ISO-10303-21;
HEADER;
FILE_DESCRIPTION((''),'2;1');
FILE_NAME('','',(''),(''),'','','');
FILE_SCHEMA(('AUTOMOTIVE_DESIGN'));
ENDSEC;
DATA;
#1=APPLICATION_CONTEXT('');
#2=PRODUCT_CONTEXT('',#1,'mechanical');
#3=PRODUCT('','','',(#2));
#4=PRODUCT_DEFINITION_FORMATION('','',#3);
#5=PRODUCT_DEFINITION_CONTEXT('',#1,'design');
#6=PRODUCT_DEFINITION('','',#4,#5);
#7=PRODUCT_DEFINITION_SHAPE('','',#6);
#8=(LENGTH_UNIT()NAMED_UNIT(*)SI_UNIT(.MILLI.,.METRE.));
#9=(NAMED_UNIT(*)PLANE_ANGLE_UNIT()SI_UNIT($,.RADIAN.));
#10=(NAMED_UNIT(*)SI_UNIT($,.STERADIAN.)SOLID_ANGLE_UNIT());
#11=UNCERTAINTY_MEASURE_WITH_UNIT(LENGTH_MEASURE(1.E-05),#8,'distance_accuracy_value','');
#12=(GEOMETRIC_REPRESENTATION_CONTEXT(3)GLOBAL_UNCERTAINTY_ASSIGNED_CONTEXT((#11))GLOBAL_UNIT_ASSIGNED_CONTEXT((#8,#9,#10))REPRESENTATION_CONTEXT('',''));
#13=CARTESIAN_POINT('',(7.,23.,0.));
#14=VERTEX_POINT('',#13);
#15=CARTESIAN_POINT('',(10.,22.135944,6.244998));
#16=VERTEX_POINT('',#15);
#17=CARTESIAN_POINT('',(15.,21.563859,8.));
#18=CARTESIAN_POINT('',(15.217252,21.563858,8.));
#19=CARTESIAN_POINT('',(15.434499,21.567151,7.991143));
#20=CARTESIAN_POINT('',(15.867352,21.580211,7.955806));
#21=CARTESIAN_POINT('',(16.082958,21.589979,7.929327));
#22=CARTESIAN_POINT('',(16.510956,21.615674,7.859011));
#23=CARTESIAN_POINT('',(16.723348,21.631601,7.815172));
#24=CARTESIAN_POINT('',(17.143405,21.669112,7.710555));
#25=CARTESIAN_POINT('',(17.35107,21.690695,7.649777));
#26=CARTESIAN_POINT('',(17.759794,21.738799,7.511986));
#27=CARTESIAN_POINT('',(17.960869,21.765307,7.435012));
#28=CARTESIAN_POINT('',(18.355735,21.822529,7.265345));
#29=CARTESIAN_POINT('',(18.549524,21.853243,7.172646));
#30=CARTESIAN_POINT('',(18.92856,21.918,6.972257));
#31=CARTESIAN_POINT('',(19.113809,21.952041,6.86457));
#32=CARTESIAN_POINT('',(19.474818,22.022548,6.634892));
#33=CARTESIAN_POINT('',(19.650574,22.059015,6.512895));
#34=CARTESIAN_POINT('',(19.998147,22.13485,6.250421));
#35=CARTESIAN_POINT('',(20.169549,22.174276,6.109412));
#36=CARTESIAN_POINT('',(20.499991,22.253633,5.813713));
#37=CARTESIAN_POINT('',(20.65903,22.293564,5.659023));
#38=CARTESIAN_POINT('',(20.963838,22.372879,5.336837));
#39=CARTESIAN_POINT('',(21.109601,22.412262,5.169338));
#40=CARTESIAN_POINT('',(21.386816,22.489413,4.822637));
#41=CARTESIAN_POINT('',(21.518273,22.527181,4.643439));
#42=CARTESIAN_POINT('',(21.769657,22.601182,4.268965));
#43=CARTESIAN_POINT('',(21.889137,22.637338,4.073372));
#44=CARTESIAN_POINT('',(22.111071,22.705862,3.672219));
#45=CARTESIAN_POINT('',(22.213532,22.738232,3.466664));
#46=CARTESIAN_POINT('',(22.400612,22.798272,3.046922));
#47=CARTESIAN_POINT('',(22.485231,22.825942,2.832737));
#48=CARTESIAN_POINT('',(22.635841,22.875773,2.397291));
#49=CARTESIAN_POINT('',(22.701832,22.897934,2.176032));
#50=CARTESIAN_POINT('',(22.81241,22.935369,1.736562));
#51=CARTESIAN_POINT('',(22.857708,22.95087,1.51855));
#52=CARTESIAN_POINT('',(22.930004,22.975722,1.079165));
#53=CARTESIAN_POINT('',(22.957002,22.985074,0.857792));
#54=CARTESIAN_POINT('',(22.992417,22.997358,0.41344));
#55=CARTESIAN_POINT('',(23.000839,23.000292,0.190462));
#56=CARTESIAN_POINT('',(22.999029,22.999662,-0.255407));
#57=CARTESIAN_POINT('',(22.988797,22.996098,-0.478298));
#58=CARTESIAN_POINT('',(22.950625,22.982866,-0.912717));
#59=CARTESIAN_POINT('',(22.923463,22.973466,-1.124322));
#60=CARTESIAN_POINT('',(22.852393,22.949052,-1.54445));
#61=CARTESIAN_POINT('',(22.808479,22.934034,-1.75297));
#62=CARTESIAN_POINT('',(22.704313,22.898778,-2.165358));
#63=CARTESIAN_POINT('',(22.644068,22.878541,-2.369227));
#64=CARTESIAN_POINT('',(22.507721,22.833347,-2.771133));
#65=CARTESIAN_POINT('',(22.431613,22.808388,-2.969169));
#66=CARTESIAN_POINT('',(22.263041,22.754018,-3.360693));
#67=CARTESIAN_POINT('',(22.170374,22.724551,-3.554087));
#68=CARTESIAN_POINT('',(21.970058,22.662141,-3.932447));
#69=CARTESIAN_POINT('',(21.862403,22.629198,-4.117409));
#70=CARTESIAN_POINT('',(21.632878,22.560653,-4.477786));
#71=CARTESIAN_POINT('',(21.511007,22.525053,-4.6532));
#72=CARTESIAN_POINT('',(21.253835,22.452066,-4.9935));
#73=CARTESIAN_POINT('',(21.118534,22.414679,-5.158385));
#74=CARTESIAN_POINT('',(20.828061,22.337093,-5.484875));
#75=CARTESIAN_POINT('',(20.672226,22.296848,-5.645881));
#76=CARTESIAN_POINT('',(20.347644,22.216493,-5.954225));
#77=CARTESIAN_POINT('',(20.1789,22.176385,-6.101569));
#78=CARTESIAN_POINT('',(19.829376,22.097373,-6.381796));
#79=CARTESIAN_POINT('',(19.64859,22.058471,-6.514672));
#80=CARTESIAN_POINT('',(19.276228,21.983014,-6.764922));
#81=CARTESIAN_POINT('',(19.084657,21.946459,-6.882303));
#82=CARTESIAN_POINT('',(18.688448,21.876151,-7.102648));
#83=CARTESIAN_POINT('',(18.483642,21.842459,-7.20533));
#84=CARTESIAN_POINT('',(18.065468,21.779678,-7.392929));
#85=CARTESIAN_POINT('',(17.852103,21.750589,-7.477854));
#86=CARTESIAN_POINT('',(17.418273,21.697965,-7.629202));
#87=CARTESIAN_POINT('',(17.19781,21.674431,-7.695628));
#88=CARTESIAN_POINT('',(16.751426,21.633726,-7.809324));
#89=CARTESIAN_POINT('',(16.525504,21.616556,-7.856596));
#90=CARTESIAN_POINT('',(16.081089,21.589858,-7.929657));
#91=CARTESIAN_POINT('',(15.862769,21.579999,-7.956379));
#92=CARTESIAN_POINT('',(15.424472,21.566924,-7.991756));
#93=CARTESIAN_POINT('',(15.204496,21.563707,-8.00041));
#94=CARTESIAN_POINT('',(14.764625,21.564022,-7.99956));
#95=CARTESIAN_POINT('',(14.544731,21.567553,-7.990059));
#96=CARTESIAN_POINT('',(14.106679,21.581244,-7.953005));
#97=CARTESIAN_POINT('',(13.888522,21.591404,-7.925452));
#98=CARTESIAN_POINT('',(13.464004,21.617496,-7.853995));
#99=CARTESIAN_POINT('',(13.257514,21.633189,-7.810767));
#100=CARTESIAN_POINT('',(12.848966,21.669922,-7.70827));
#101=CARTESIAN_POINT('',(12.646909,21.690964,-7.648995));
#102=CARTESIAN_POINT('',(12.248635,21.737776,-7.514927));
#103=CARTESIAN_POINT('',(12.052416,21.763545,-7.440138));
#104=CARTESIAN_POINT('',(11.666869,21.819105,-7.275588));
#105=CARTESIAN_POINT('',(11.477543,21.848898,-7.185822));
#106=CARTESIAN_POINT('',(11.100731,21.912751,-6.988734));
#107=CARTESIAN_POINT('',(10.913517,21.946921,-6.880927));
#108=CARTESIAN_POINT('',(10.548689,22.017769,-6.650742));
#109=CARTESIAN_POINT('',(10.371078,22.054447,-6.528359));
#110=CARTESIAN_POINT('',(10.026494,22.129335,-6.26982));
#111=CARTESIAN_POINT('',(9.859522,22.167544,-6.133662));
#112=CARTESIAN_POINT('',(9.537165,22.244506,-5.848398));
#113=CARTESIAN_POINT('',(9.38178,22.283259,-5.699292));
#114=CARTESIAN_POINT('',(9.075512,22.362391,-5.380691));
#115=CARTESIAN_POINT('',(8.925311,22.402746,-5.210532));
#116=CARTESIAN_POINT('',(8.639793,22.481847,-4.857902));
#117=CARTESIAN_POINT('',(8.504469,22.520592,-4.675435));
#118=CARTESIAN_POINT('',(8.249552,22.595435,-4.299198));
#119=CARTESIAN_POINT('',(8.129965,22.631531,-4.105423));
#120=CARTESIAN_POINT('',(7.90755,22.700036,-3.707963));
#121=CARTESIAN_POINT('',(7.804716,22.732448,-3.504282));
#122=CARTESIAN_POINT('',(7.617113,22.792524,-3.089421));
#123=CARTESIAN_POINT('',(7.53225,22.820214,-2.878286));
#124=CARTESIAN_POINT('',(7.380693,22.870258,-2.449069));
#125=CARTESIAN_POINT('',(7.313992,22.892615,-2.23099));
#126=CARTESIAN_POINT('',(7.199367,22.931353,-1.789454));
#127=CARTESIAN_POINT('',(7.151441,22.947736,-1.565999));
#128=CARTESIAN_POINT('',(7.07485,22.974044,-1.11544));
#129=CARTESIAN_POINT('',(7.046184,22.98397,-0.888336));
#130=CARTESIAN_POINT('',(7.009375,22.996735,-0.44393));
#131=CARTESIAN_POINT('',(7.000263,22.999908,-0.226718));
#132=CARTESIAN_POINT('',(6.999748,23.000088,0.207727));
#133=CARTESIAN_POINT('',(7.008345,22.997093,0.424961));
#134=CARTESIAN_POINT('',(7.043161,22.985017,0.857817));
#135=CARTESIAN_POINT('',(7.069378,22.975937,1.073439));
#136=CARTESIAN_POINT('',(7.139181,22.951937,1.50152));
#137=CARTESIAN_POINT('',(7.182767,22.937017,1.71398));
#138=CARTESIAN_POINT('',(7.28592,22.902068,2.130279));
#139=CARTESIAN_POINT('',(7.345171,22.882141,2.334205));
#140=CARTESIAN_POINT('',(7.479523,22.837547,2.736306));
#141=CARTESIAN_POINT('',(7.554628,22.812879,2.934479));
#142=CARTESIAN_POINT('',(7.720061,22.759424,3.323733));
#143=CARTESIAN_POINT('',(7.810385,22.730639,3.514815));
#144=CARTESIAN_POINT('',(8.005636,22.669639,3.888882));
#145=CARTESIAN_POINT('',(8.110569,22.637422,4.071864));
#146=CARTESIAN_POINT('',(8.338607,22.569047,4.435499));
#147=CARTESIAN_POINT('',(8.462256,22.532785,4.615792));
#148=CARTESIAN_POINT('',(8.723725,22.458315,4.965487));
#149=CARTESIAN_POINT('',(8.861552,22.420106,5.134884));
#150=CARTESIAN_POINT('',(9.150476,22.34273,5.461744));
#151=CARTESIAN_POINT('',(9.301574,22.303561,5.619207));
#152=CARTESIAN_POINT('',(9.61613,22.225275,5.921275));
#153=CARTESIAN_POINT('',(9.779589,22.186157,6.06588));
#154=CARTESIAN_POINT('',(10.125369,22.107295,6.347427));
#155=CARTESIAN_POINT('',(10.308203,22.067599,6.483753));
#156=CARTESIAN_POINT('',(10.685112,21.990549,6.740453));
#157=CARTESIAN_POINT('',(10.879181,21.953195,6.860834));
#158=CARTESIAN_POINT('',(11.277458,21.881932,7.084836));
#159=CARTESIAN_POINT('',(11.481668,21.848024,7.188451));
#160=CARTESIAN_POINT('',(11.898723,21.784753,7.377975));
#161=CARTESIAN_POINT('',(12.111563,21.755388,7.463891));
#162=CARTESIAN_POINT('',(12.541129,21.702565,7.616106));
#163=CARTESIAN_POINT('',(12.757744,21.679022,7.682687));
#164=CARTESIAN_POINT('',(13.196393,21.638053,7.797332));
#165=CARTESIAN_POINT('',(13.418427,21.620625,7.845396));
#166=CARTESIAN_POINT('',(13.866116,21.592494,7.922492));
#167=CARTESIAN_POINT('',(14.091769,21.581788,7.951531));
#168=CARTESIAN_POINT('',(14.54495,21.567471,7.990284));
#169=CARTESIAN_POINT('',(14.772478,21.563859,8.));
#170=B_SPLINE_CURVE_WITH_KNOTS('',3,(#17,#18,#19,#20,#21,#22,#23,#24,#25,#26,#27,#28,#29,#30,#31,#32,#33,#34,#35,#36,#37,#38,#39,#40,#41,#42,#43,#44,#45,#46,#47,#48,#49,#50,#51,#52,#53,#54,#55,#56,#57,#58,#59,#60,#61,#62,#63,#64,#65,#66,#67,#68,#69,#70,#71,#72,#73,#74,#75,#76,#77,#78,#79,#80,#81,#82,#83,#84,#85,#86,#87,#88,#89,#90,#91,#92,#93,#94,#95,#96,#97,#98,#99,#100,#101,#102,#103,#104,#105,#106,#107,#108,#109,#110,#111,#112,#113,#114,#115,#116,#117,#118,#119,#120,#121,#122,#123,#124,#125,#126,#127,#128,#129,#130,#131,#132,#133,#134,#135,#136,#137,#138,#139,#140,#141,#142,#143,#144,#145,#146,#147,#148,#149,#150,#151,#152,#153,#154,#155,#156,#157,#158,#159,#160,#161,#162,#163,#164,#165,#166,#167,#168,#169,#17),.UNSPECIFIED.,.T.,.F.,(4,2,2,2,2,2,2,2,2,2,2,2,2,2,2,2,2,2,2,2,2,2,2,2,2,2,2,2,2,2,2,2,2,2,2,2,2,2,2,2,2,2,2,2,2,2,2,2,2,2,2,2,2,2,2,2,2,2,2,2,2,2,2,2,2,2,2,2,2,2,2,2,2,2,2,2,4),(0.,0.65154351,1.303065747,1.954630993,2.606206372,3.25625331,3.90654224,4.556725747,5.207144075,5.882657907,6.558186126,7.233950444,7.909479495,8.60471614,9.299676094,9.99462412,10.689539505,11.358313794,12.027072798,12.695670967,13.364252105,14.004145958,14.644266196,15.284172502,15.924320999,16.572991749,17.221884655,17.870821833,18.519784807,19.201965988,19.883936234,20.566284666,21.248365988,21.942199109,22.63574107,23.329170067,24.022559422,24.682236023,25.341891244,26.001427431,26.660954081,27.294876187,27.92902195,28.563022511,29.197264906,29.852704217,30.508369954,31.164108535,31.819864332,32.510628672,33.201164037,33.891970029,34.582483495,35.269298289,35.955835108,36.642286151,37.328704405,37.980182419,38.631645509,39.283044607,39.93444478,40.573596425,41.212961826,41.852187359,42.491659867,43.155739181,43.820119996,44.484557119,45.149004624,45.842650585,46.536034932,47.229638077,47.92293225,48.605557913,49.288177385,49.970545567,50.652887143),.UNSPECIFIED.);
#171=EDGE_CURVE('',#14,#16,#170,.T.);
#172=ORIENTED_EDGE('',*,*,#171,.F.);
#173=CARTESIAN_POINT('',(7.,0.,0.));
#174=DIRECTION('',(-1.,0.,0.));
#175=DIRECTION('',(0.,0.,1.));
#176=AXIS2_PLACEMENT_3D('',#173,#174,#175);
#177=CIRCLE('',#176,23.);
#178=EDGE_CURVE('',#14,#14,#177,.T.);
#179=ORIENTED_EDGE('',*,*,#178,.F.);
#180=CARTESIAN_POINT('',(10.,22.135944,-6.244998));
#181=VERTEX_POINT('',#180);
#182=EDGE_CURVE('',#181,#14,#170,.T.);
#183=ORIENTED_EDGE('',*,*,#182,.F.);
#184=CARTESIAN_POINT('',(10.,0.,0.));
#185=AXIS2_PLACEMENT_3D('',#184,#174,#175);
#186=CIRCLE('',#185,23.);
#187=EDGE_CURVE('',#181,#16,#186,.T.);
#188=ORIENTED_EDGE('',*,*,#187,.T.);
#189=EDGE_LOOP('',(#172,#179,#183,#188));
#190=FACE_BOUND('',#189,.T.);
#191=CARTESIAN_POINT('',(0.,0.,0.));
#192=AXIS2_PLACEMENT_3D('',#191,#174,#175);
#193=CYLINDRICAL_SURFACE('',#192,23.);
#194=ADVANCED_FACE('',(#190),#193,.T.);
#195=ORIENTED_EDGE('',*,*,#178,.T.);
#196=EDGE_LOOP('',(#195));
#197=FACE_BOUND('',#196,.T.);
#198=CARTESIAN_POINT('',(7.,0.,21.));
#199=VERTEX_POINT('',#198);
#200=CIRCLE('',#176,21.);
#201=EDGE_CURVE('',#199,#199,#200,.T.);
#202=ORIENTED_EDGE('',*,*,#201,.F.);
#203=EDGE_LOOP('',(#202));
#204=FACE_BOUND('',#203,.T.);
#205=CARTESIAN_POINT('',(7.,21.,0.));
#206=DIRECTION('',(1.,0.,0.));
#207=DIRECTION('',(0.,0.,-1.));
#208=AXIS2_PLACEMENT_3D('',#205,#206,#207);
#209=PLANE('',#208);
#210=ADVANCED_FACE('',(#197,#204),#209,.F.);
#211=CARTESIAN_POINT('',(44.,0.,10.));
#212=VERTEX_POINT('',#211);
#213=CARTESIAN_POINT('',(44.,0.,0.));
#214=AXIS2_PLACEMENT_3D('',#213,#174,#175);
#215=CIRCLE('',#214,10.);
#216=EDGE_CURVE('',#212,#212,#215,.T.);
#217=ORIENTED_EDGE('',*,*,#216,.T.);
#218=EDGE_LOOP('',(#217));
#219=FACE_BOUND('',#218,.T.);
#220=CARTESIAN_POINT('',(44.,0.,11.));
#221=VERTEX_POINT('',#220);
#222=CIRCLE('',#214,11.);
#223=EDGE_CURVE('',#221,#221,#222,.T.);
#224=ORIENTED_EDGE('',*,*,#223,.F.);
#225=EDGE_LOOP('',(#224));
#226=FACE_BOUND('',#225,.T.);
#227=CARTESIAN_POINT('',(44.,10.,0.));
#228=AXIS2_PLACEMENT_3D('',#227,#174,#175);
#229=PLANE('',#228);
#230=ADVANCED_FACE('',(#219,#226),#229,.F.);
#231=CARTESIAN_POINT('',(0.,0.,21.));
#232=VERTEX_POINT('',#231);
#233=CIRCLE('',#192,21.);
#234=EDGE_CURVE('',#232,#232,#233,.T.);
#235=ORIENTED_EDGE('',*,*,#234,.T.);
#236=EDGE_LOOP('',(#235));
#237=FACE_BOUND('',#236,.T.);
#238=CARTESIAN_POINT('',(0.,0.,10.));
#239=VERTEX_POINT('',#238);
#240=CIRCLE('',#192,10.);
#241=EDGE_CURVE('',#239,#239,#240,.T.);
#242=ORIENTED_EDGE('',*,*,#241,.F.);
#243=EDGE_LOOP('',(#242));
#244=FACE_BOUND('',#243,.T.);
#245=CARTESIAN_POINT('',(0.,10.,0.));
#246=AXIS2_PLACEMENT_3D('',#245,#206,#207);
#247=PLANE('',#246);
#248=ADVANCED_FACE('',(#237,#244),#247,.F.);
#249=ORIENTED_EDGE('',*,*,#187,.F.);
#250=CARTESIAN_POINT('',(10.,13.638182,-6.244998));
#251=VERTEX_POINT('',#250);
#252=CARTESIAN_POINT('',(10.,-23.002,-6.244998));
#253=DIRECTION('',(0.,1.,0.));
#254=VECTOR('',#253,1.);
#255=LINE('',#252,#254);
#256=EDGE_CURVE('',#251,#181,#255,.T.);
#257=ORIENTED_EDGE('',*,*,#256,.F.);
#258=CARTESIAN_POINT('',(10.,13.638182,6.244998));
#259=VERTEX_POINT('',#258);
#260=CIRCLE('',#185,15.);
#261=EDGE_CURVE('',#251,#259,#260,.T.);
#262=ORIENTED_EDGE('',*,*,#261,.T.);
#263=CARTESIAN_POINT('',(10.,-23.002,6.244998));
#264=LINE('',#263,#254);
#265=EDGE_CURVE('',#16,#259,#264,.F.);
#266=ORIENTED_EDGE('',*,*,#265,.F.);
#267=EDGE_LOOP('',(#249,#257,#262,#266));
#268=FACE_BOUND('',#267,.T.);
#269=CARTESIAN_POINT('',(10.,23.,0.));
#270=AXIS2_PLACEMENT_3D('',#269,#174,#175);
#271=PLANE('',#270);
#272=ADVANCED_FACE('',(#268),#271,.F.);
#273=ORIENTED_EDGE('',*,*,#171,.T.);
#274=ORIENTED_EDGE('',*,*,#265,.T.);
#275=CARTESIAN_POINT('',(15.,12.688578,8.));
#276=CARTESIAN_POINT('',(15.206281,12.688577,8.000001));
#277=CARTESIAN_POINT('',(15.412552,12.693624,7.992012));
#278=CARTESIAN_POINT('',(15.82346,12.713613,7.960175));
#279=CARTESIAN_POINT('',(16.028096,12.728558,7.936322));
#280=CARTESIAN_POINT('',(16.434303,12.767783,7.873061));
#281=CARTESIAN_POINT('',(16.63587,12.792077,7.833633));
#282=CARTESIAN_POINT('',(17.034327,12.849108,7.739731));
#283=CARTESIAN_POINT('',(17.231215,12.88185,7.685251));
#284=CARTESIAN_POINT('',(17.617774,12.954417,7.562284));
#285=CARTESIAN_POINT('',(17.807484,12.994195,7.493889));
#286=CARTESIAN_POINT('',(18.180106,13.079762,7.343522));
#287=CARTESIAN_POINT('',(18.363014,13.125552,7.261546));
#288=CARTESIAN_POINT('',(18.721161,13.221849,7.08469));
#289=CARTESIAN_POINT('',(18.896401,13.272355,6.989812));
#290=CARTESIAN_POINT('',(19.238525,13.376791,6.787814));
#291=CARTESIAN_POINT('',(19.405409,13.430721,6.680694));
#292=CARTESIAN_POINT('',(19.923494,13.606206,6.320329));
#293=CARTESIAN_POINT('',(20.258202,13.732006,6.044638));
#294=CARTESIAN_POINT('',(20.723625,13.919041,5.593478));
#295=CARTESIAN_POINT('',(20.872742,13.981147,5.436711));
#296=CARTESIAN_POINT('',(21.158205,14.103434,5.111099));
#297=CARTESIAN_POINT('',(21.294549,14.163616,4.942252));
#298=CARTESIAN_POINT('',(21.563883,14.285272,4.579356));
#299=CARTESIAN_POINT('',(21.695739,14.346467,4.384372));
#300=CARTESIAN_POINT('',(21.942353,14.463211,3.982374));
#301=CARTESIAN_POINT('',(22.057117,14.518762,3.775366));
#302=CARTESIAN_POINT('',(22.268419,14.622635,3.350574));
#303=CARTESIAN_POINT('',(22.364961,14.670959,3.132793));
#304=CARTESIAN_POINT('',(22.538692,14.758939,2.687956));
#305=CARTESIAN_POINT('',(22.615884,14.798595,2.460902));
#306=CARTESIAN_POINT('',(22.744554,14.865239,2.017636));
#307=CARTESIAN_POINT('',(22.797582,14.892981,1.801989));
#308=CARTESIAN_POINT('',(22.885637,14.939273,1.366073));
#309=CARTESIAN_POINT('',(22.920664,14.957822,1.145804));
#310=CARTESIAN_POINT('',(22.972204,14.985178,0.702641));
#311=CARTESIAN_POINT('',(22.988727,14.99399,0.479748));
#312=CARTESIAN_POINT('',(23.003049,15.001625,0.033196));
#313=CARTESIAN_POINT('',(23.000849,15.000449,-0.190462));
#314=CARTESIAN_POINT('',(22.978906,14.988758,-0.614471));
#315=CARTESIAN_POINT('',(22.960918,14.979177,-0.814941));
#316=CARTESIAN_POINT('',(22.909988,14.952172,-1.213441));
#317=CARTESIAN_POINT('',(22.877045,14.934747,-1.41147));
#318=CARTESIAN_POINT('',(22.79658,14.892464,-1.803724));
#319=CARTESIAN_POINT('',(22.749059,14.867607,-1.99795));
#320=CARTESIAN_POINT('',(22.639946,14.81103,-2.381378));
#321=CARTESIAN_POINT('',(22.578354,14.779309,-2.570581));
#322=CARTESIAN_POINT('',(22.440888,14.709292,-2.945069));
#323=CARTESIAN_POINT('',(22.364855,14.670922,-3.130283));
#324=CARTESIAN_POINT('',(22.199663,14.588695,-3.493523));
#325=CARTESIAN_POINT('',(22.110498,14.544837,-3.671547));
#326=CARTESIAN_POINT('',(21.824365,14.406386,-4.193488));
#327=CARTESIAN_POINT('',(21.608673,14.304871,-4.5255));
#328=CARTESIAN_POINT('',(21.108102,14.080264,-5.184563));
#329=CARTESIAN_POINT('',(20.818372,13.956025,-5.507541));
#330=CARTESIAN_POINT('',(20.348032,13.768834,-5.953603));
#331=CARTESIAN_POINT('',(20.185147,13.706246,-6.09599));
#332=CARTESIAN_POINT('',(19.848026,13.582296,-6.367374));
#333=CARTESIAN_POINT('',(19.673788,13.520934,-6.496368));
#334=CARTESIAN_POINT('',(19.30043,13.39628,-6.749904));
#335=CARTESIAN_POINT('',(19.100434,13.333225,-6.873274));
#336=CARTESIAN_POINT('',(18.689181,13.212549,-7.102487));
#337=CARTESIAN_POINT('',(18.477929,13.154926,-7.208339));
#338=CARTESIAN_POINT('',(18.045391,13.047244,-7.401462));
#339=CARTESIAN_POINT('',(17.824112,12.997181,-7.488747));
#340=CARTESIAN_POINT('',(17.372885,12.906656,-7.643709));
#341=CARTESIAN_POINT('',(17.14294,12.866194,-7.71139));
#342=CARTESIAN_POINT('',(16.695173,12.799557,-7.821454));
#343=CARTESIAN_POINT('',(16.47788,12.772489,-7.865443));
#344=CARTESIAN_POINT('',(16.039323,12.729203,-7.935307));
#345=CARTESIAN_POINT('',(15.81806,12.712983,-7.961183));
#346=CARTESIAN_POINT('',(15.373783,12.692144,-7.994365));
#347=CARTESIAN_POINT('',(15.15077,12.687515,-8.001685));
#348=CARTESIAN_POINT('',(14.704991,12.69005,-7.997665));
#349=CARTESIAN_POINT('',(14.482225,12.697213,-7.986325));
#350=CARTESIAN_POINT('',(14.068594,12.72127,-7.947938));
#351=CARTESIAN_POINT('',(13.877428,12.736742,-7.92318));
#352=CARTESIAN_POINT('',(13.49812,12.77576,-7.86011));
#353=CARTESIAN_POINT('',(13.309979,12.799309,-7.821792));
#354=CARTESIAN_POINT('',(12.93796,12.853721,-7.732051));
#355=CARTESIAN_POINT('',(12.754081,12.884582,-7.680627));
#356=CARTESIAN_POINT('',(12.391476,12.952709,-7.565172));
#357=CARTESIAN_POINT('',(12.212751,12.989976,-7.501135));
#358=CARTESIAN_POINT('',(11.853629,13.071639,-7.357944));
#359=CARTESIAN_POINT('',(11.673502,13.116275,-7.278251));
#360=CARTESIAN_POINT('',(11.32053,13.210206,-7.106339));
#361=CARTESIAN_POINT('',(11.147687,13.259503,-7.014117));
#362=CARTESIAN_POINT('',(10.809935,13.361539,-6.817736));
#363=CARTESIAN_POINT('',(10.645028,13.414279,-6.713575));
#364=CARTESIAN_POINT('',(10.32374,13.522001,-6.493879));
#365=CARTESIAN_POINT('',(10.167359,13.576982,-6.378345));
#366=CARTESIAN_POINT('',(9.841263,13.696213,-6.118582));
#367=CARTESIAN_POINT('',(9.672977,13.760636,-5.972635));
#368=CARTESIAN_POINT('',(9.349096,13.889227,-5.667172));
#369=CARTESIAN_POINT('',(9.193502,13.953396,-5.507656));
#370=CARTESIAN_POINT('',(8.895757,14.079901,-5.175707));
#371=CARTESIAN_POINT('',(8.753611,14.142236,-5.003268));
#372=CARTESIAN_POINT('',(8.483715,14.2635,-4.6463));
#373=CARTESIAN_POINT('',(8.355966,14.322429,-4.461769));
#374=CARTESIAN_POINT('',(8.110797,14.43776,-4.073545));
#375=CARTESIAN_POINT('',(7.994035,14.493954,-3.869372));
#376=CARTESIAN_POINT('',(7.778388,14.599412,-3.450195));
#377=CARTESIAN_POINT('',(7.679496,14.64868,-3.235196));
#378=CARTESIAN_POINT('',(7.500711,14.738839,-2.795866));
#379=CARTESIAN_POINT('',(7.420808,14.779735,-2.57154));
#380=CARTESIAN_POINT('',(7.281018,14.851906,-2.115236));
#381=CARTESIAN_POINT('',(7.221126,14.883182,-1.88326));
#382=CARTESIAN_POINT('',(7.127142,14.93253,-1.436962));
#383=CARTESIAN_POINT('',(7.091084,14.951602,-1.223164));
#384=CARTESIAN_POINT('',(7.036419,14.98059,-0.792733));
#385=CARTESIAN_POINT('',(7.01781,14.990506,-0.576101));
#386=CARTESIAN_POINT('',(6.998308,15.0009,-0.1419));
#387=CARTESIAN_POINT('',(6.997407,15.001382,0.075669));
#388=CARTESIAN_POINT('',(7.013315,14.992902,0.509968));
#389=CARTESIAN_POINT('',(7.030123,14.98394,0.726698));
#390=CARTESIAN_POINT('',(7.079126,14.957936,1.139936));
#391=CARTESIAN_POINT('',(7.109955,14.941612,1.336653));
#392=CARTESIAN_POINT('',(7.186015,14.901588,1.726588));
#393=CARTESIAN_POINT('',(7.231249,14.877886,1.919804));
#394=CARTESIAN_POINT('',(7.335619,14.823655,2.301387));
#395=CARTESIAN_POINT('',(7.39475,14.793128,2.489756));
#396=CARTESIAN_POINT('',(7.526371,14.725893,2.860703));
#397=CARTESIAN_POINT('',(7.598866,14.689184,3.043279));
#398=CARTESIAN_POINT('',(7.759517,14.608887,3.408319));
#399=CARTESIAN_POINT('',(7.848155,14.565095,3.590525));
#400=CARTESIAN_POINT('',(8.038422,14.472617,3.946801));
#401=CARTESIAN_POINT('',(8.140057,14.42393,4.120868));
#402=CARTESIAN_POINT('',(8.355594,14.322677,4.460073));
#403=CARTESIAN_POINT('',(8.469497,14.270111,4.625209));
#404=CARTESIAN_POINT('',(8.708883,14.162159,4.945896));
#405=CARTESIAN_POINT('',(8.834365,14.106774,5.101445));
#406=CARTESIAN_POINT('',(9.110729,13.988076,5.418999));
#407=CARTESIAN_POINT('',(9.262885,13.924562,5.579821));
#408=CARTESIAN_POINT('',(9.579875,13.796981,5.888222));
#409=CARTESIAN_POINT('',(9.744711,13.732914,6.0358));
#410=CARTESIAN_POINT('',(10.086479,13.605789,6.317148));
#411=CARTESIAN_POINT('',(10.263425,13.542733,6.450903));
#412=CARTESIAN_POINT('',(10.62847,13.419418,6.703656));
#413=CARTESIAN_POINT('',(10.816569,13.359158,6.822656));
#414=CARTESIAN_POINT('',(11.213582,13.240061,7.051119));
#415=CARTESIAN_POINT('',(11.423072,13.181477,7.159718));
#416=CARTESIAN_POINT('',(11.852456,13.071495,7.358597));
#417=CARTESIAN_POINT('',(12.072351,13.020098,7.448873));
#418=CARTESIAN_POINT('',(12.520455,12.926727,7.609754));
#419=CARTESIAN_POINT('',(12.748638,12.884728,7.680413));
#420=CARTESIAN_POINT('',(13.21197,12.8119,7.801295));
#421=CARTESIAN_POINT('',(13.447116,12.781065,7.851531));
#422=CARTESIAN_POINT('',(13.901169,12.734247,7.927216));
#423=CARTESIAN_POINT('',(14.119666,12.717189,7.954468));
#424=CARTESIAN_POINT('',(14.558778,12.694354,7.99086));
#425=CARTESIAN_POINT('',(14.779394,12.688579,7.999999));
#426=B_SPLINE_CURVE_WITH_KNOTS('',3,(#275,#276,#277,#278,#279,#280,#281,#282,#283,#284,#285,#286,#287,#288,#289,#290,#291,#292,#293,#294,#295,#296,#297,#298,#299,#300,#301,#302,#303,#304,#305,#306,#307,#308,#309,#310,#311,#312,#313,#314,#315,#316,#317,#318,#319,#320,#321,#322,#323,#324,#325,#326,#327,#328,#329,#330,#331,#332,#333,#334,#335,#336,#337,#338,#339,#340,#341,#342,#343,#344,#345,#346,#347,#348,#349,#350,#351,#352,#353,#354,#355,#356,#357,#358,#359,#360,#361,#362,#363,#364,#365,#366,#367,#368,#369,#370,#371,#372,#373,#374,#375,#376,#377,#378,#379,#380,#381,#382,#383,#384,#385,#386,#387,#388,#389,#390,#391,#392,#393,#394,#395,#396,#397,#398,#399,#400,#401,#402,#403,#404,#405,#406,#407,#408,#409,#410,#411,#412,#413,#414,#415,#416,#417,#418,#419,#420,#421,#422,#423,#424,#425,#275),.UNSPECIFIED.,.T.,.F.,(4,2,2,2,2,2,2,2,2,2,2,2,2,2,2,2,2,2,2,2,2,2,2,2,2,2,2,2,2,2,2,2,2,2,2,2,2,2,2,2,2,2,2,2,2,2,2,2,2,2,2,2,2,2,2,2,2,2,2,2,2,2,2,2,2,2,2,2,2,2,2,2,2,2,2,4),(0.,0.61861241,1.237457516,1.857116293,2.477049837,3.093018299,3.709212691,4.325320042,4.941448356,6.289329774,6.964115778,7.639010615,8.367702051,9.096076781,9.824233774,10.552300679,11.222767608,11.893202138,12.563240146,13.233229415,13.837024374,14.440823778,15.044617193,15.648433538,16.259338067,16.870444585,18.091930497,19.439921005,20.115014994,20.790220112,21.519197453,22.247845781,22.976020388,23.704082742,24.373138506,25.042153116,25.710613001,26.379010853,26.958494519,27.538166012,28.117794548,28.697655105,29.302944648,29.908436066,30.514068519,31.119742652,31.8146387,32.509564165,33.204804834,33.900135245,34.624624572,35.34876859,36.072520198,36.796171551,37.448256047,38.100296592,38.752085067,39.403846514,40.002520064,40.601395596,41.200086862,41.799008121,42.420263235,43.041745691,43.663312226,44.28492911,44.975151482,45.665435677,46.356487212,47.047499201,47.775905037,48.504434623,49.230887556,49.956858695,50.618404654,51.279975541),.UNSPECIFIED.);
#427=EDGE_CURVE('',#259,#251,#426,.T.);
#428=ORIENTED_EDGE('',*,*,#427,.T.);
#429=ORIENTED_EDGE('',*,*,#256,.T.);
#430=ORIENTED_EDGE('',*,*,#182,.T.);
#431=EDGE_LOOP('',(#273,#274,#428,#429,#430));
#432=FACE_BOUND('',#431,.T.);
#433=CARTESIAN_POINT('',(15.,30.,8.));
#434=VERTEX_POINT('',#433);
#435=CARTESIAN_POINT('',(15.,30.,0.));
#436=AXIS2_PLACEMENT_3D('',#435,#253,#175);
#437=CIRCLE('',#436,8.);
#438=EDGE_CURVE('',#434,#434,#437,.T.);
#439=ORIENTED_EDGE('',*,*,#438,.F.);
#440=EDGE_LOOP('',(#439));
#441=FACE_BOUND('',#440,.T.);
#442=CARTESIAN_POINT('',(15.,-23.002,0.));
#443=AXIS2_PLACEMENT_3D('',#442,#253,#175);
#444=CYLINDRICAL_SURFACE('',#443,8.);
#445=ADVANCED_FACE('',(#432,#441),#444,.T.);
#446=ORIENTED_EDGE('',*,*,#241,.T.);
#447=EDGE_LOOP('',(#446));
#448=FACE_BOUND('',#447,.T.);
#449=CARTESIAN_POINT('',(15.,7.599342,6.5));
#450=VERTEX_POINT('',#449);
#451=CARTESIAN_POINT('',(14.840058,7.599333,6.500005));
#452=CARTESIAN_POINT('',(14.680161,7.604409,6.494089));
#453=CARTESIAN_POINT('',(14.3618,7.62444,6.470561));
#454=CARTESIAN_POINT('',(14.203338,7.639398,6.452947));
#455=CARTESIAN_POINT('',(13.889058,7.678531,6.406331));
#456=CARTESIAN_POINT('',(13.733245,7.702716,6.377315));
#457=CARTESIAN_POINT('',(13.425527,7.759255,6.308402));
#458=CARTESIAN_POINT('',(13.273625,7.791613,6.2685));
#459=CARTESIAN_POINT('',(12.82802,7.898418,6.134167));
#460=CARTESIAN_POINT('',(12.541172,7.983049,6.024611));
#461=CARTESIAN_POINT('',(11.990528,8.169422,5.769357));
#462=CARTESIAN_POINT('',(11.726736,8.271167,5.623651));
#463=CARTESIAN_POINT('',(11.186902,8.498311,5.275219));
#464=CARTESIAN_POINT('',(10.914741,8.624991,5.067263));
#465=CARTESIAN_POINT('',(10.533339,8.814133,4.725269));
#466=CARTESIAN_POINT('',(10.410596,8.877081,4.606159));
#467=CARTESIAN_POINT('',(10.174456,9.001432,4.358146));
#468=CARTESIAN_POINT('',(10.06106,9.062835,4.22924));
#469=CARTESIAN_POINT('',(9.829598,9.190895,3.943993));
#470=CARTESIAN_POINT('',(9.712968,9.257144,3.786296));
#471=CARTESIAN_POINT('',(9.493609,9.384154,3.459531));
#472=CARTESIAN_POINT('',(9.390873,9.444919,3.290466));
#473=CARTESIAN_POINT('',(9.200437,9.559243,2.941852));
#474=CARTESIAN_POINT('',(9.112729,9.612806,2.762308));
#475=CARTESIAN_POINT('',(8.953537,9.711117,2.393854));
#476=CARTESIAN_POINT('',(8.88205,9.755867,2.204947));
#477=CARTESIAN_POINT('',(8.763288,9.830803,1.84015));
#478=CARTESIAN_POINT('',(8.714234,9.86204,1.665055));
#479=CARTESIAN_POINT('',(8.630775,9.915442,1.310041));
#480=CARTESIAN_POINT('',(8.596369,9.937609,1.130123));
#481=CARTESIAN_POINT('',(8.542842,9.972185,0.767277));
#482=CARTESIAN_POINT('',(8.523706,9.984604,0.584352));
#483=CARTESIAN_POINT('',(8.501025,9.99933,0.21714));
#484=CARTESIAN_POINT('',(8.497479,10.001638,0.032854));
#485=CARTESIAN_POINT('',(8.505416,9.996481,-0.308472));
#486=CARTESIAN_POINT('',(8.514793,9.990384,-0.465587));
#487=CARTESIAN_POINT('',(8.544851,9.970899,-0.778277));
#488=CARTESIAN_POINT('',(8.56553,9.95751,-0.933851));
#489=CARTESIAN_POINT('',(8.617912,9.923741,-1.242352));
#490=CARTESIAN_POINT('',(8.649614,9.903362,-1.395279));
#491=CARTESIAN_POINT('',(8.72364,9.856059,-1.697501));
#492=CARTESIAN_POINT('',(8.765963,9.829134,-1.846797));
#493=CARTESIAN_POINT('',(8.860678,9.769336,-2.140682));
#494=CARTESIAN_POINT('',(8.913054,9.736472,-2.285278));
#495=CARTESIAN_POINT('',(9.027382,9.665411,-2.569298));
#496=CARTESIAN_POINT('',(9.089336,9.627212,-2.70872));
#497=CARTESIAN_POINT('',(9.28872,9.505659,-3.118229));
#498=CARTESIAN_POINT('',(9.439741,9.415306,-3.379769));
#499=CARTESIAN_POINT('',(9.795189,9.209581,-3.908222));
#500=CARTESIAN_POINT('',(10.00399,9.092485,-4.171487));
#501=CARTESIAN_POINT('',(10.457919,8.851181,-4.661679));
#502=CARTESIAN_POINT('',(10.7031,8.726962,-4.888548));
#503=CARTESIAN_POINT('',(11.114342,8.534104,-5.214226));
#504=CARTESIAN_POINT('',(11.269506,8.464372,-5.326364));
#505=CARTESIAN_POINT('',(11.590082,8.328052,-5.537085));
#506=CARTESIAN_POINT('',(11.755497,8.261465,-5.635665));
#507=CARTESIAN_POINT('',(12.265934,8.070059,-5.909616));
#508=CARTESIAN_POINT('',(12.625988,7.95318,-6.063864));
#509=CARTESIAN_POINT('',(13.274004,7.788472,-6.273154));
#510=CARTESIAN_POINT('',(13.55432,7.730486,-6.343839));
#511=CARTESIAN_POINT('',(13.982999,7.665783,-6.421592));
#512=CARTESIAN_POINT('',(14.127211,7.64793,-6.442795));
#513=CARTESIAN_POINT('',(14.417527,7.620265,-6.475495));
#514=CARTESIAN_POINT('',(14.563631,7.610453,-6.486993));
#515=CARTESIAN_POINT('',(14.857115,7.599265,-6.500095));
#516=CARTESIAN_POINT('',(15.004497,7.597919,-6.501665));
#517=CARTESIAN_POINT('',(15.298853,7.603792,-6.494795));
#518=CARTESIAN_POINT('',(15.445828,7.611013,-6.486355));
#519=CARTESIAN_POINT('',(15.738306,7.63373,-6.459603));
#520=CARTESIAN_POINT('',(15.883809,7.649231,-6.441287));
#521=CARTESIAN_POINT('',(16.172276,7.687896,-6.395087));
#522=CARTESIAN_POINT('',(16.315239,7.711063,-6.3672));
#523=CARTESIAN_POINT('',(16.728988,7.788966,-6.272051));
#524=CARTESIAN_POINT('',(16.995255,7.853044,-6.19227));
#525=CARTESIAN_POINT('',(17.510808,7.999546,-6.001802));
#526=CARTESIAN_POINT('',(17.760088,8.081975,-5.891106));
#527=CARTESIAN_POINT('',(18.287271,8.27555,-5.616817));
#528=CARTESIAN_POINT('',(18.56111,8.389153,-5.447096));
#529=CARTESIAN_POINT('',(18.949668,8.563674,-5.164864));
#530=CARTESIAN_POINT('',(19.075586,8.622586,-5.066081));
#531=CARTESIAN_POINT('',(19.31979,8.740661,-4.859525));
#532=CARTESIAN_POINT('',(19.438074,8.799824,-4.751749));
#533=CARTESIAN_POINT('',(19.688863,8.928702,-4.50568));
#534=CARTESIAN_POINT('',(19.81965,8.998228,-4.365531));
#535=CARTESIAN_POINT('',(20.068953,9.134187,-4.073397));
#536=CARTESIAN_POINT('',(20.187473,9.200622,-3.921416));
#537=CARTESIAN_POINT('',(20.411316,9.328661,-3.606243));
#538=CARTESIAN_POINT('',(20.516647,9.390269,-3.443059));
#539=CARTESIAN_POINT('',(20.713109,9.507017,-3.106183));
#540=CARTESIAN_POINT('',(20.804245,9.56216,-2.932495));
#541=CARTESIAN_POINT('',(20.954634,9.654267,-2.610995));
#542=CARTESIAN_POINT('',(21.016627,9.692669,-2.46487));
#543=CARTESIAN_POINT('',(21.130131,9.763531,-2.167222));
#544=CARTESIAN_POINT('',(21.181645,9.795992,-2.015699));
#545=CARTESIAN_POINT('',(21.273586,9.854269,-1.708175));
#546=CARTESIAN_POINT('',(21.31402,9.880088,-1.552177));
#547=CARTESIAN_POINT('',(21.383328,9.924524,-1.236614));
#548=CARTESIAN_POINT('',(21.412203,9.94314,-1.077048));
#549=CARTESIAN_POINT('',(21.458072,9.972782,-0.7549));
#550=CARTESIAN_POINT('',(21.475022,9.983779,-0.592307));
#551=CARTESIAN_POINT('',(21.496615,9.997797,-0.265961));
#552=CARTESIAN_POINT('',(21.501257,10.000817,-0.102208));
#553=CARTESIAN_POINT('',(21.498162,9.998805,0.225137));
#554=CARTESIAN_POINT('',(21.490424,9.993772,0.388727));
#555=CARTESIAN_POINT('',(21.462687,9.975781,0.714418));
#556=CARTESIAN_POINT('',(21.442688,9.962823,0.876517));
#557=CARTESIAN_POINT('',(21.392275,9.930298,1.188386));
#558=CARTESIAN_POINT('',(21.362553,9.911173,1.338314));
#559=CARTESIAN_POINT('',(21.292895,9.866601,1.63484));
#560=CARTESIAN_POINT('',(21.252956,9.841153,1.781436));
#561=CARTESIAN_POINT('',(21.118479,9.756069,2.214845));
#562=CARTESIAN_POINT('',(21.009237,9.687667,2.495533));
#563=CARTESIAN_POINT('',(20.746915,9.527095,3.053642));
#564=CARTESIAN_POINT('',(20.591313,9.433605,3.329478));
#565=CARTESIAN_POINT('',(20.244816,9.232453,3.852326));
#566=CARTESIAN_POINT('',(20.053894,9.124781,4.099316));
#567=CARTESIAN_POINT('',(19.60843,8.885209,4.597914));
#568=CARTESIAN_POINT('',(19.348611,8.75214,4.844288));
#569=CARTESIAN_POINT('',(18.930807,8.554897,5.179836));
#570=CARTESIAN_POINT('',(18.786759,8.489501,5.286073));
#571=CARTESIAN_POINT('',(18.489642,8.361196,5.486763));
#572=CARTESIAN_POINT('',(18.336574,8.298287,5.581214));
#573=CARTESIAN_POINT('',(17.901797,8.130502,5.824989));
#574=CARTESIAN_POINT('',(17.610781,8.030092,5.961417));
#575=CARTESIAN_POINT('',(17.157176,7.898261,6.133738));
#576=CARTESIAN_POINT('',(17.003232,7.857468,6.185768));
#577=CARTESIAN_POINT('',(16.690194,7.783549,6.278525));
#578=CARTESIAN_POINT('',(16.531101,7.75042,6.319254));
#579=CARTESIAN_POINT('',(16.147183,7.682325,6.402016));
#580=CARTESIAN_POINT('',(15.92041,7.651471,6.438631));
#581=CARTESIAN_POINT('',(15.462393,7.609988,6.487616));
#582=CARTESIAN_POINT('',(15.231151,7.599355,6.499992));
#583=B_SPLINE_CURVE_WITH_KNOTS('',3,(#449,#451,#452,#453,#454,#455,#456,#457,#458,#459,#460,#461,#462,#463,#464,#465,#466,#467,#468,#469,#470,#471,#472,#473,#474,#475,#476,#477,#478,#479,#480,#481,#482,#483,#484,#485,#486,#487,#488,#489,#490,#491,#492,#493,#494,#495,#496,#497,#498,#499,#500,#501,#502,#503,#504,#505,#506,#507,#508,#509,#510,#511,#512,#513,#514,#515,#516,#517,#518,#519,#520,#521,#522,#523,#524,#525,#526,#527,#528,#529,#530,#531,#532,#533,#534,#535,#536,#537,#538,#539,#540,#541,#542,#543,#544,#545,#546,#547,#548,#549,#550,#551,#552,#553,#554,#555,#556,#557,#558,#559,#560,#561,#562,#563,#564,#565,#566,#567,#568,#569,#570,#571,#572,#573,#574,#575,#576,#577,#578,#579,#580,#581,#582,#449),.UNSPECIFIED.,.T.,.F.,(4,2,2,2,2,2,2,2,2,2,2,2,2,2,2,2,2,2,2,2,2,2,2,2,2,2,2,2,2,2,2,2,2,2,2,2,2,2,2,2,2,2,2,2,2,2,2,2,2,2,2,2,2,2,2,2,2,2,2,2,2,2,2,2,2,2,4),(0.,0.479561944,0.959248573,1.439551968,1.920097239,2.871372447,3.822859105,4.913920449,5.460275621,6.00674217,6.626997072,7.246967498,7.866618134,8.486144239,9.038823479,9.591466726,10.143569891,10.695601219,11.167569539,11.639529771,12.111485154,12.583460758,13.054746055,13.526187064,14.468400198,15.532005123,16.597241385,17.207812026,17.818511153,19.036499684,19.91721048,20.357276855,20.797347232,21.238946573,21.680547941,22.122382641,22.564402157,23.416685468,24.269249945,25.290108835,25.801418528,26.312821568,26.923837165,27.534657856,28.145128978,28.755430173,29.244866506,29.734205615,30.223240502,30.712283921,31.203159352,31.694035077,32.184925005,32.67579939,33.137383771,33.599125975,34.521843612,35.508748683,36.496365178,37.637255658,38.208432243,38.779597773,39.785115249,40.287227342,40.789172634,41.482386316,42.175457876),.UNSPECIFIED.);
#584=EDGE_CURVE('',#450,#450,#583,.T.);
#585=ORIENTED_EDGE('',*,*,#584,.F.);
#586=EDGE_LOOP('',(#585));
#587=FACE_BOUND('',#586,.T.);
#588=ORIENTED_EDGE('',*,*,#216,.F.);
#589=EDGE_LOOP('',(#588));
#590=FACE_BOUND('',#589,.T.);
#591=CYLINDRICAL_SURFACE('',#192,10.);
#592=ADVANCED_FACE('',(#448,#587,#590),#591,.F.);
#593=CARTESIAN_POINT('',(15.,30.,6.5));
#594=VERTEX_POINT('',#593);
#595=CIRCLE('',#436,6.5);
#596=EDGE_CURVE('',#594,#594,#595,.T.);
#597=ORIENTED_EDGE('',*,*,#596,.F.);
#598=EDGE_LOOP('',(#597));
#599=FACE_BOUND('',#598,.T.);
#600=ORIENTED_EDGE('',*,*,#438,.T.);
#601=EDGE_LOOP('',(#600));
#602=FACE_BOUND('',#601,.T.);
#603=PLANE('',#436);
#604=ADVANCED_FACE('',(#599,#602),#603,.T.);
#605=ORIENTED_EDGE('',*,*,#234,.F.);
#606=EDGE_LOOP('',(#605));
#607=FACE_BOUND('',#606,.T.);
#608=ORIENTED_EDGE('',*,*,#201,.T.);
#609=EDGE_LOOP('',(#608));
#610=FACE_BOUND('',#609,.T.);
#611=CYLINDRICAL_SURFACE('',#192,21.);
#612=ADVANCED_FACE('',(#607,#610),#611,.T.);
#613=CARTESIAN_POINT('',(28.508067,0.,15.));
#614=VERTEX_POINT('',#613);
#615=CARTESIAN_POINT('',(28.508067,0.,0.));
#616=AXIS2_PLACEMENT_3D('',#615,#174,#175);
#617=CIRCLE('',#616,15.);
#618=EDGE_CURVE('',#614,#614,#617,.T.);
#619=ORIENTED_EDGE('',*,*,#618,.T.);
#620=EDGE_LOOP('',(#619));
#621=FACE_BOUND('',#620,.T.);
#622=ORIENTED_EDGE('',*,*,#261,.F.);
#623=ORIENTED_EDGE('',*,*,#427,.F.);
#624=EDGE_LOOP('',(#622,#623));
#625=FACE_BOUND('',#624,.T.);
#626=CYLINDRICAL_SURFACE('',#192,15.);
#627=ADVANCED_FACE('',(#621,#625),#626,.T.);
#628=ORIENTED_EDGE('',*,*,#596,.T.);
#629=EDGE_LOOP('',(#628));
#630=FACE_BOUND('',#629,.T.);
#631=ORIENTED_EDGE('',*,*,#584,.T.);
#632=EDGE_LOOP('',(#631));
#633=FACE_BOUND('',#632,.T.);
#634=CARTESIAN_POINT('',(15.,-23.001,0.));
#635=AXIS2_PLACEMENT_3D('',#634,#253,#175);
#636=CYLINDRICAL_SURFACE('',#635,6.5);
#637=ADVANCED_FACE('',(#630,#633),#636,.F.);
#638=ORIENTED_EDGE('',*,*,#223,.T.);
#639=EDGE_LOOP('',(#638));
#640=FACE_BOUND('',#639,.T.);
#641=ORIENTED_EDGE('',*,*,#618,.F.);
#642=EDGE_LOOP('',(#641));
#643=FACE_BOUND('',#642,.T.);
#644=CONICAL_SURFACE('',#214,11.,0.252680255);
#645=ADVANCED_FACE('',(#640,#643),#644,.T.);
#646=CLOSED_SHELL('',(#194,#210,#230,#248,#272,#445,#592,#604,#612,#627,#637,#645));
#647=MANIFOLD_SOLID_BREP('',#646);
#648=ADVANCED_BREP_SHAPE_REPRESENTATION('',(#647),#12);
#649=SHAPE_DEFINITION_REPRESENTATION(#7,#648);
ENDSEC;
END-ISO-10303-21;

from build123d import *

# Parameters (mm, degrees)
BOSS_EXTRU_1_REACH           = 74.622
ESQUISSE2_R                  = 8
ENL_V_MAT_EXTRU_1_REACH      = 74.622
ENL_V_MAT_EXTRU_1_END_RADIUS = 10
ESQUISSE4_R                  = 6.5


with BuildPart() as part:
    # Esquisse1 → Révolution1 (revolve)
    with BuildSketch(Plane.XY, mode=Mode.PRIVATE) as r_volution1_sk:
        Polygon((44, 10), (44, 11), (28.508066615, 15), (10, 15), (10, 23), (7, 23), (7, 21), (0, 21), (0, 10), align=None)
    revolve(r_volution1_sk.sketch.rotate(Axis((0, 0, 0), (1, 0, 0)), 90), axis=Axis((0, 0, 0), (1, 0, 0)))

    # Esquisse2 → Boss.-Extru.1 (add, up to next)
    with BuildSketch(Plane(origin=(0, 30, 0), x_dir=(1, 0, 0), z_dir=(0, 1, 0)), mode=Mode.PRIVATE) as boss_extru_1_sk1:
        with Locations(Location((15, 0, 0), (0, 0, 270))):
            Circle(ESQUISSE2_R)
    boss_extru_1_tool1 = extrude(boss_extru_1_sk1.sketch, amount=-BOSS_EXTRU_1_REACH, mode=Mode.PRIVATE) - part.part
    add(boss_extru_1_tool1.solids().sort_by_distance((15, 30, 0))[0])

    # Enlèv. mat.-Extru.1: up to this cylinder (the profile starts outside it)
    enl_v_mat_extru_1_end = Plane(origin=(15, 0, 0), z_dir=(-1, 0, 0)) * Cylinder(ENL_V_MAT_EXTRU_1_END_RADIUS, 170.244, mode=Mode.PRIVATE)
    # Esquisse4 → Enlèv. mat.-Extru.1 (cut, up to the surface)
    with BuildSketch(Plane(origin=(0, 30, 0), x_dir=(1, 0, 0), z_dir=(0, 1, 0)), mode=Mode.PRIVATE) as enl_v_mat_extru_1_sk1:
        with Locations(Location((15, 0, 0), (0, 0, 270))):
            Circle(ESQUISSE4_R)
    enl_v_mat_extru_1_tool1 = extrude(enl_v_mat_extru_1_sk1.sketch, amount=-ENL_V_MAT_EXTRU_1_REACH, mode=Mode.PRIVATE) - enl_v_mat_extru_1_end
    add(enl_v_mat_extru_1_tool1.solids().sort_by_distance((15, 30, 0))[0], mode=Mode.SUBTRACT)


solid = part.part
